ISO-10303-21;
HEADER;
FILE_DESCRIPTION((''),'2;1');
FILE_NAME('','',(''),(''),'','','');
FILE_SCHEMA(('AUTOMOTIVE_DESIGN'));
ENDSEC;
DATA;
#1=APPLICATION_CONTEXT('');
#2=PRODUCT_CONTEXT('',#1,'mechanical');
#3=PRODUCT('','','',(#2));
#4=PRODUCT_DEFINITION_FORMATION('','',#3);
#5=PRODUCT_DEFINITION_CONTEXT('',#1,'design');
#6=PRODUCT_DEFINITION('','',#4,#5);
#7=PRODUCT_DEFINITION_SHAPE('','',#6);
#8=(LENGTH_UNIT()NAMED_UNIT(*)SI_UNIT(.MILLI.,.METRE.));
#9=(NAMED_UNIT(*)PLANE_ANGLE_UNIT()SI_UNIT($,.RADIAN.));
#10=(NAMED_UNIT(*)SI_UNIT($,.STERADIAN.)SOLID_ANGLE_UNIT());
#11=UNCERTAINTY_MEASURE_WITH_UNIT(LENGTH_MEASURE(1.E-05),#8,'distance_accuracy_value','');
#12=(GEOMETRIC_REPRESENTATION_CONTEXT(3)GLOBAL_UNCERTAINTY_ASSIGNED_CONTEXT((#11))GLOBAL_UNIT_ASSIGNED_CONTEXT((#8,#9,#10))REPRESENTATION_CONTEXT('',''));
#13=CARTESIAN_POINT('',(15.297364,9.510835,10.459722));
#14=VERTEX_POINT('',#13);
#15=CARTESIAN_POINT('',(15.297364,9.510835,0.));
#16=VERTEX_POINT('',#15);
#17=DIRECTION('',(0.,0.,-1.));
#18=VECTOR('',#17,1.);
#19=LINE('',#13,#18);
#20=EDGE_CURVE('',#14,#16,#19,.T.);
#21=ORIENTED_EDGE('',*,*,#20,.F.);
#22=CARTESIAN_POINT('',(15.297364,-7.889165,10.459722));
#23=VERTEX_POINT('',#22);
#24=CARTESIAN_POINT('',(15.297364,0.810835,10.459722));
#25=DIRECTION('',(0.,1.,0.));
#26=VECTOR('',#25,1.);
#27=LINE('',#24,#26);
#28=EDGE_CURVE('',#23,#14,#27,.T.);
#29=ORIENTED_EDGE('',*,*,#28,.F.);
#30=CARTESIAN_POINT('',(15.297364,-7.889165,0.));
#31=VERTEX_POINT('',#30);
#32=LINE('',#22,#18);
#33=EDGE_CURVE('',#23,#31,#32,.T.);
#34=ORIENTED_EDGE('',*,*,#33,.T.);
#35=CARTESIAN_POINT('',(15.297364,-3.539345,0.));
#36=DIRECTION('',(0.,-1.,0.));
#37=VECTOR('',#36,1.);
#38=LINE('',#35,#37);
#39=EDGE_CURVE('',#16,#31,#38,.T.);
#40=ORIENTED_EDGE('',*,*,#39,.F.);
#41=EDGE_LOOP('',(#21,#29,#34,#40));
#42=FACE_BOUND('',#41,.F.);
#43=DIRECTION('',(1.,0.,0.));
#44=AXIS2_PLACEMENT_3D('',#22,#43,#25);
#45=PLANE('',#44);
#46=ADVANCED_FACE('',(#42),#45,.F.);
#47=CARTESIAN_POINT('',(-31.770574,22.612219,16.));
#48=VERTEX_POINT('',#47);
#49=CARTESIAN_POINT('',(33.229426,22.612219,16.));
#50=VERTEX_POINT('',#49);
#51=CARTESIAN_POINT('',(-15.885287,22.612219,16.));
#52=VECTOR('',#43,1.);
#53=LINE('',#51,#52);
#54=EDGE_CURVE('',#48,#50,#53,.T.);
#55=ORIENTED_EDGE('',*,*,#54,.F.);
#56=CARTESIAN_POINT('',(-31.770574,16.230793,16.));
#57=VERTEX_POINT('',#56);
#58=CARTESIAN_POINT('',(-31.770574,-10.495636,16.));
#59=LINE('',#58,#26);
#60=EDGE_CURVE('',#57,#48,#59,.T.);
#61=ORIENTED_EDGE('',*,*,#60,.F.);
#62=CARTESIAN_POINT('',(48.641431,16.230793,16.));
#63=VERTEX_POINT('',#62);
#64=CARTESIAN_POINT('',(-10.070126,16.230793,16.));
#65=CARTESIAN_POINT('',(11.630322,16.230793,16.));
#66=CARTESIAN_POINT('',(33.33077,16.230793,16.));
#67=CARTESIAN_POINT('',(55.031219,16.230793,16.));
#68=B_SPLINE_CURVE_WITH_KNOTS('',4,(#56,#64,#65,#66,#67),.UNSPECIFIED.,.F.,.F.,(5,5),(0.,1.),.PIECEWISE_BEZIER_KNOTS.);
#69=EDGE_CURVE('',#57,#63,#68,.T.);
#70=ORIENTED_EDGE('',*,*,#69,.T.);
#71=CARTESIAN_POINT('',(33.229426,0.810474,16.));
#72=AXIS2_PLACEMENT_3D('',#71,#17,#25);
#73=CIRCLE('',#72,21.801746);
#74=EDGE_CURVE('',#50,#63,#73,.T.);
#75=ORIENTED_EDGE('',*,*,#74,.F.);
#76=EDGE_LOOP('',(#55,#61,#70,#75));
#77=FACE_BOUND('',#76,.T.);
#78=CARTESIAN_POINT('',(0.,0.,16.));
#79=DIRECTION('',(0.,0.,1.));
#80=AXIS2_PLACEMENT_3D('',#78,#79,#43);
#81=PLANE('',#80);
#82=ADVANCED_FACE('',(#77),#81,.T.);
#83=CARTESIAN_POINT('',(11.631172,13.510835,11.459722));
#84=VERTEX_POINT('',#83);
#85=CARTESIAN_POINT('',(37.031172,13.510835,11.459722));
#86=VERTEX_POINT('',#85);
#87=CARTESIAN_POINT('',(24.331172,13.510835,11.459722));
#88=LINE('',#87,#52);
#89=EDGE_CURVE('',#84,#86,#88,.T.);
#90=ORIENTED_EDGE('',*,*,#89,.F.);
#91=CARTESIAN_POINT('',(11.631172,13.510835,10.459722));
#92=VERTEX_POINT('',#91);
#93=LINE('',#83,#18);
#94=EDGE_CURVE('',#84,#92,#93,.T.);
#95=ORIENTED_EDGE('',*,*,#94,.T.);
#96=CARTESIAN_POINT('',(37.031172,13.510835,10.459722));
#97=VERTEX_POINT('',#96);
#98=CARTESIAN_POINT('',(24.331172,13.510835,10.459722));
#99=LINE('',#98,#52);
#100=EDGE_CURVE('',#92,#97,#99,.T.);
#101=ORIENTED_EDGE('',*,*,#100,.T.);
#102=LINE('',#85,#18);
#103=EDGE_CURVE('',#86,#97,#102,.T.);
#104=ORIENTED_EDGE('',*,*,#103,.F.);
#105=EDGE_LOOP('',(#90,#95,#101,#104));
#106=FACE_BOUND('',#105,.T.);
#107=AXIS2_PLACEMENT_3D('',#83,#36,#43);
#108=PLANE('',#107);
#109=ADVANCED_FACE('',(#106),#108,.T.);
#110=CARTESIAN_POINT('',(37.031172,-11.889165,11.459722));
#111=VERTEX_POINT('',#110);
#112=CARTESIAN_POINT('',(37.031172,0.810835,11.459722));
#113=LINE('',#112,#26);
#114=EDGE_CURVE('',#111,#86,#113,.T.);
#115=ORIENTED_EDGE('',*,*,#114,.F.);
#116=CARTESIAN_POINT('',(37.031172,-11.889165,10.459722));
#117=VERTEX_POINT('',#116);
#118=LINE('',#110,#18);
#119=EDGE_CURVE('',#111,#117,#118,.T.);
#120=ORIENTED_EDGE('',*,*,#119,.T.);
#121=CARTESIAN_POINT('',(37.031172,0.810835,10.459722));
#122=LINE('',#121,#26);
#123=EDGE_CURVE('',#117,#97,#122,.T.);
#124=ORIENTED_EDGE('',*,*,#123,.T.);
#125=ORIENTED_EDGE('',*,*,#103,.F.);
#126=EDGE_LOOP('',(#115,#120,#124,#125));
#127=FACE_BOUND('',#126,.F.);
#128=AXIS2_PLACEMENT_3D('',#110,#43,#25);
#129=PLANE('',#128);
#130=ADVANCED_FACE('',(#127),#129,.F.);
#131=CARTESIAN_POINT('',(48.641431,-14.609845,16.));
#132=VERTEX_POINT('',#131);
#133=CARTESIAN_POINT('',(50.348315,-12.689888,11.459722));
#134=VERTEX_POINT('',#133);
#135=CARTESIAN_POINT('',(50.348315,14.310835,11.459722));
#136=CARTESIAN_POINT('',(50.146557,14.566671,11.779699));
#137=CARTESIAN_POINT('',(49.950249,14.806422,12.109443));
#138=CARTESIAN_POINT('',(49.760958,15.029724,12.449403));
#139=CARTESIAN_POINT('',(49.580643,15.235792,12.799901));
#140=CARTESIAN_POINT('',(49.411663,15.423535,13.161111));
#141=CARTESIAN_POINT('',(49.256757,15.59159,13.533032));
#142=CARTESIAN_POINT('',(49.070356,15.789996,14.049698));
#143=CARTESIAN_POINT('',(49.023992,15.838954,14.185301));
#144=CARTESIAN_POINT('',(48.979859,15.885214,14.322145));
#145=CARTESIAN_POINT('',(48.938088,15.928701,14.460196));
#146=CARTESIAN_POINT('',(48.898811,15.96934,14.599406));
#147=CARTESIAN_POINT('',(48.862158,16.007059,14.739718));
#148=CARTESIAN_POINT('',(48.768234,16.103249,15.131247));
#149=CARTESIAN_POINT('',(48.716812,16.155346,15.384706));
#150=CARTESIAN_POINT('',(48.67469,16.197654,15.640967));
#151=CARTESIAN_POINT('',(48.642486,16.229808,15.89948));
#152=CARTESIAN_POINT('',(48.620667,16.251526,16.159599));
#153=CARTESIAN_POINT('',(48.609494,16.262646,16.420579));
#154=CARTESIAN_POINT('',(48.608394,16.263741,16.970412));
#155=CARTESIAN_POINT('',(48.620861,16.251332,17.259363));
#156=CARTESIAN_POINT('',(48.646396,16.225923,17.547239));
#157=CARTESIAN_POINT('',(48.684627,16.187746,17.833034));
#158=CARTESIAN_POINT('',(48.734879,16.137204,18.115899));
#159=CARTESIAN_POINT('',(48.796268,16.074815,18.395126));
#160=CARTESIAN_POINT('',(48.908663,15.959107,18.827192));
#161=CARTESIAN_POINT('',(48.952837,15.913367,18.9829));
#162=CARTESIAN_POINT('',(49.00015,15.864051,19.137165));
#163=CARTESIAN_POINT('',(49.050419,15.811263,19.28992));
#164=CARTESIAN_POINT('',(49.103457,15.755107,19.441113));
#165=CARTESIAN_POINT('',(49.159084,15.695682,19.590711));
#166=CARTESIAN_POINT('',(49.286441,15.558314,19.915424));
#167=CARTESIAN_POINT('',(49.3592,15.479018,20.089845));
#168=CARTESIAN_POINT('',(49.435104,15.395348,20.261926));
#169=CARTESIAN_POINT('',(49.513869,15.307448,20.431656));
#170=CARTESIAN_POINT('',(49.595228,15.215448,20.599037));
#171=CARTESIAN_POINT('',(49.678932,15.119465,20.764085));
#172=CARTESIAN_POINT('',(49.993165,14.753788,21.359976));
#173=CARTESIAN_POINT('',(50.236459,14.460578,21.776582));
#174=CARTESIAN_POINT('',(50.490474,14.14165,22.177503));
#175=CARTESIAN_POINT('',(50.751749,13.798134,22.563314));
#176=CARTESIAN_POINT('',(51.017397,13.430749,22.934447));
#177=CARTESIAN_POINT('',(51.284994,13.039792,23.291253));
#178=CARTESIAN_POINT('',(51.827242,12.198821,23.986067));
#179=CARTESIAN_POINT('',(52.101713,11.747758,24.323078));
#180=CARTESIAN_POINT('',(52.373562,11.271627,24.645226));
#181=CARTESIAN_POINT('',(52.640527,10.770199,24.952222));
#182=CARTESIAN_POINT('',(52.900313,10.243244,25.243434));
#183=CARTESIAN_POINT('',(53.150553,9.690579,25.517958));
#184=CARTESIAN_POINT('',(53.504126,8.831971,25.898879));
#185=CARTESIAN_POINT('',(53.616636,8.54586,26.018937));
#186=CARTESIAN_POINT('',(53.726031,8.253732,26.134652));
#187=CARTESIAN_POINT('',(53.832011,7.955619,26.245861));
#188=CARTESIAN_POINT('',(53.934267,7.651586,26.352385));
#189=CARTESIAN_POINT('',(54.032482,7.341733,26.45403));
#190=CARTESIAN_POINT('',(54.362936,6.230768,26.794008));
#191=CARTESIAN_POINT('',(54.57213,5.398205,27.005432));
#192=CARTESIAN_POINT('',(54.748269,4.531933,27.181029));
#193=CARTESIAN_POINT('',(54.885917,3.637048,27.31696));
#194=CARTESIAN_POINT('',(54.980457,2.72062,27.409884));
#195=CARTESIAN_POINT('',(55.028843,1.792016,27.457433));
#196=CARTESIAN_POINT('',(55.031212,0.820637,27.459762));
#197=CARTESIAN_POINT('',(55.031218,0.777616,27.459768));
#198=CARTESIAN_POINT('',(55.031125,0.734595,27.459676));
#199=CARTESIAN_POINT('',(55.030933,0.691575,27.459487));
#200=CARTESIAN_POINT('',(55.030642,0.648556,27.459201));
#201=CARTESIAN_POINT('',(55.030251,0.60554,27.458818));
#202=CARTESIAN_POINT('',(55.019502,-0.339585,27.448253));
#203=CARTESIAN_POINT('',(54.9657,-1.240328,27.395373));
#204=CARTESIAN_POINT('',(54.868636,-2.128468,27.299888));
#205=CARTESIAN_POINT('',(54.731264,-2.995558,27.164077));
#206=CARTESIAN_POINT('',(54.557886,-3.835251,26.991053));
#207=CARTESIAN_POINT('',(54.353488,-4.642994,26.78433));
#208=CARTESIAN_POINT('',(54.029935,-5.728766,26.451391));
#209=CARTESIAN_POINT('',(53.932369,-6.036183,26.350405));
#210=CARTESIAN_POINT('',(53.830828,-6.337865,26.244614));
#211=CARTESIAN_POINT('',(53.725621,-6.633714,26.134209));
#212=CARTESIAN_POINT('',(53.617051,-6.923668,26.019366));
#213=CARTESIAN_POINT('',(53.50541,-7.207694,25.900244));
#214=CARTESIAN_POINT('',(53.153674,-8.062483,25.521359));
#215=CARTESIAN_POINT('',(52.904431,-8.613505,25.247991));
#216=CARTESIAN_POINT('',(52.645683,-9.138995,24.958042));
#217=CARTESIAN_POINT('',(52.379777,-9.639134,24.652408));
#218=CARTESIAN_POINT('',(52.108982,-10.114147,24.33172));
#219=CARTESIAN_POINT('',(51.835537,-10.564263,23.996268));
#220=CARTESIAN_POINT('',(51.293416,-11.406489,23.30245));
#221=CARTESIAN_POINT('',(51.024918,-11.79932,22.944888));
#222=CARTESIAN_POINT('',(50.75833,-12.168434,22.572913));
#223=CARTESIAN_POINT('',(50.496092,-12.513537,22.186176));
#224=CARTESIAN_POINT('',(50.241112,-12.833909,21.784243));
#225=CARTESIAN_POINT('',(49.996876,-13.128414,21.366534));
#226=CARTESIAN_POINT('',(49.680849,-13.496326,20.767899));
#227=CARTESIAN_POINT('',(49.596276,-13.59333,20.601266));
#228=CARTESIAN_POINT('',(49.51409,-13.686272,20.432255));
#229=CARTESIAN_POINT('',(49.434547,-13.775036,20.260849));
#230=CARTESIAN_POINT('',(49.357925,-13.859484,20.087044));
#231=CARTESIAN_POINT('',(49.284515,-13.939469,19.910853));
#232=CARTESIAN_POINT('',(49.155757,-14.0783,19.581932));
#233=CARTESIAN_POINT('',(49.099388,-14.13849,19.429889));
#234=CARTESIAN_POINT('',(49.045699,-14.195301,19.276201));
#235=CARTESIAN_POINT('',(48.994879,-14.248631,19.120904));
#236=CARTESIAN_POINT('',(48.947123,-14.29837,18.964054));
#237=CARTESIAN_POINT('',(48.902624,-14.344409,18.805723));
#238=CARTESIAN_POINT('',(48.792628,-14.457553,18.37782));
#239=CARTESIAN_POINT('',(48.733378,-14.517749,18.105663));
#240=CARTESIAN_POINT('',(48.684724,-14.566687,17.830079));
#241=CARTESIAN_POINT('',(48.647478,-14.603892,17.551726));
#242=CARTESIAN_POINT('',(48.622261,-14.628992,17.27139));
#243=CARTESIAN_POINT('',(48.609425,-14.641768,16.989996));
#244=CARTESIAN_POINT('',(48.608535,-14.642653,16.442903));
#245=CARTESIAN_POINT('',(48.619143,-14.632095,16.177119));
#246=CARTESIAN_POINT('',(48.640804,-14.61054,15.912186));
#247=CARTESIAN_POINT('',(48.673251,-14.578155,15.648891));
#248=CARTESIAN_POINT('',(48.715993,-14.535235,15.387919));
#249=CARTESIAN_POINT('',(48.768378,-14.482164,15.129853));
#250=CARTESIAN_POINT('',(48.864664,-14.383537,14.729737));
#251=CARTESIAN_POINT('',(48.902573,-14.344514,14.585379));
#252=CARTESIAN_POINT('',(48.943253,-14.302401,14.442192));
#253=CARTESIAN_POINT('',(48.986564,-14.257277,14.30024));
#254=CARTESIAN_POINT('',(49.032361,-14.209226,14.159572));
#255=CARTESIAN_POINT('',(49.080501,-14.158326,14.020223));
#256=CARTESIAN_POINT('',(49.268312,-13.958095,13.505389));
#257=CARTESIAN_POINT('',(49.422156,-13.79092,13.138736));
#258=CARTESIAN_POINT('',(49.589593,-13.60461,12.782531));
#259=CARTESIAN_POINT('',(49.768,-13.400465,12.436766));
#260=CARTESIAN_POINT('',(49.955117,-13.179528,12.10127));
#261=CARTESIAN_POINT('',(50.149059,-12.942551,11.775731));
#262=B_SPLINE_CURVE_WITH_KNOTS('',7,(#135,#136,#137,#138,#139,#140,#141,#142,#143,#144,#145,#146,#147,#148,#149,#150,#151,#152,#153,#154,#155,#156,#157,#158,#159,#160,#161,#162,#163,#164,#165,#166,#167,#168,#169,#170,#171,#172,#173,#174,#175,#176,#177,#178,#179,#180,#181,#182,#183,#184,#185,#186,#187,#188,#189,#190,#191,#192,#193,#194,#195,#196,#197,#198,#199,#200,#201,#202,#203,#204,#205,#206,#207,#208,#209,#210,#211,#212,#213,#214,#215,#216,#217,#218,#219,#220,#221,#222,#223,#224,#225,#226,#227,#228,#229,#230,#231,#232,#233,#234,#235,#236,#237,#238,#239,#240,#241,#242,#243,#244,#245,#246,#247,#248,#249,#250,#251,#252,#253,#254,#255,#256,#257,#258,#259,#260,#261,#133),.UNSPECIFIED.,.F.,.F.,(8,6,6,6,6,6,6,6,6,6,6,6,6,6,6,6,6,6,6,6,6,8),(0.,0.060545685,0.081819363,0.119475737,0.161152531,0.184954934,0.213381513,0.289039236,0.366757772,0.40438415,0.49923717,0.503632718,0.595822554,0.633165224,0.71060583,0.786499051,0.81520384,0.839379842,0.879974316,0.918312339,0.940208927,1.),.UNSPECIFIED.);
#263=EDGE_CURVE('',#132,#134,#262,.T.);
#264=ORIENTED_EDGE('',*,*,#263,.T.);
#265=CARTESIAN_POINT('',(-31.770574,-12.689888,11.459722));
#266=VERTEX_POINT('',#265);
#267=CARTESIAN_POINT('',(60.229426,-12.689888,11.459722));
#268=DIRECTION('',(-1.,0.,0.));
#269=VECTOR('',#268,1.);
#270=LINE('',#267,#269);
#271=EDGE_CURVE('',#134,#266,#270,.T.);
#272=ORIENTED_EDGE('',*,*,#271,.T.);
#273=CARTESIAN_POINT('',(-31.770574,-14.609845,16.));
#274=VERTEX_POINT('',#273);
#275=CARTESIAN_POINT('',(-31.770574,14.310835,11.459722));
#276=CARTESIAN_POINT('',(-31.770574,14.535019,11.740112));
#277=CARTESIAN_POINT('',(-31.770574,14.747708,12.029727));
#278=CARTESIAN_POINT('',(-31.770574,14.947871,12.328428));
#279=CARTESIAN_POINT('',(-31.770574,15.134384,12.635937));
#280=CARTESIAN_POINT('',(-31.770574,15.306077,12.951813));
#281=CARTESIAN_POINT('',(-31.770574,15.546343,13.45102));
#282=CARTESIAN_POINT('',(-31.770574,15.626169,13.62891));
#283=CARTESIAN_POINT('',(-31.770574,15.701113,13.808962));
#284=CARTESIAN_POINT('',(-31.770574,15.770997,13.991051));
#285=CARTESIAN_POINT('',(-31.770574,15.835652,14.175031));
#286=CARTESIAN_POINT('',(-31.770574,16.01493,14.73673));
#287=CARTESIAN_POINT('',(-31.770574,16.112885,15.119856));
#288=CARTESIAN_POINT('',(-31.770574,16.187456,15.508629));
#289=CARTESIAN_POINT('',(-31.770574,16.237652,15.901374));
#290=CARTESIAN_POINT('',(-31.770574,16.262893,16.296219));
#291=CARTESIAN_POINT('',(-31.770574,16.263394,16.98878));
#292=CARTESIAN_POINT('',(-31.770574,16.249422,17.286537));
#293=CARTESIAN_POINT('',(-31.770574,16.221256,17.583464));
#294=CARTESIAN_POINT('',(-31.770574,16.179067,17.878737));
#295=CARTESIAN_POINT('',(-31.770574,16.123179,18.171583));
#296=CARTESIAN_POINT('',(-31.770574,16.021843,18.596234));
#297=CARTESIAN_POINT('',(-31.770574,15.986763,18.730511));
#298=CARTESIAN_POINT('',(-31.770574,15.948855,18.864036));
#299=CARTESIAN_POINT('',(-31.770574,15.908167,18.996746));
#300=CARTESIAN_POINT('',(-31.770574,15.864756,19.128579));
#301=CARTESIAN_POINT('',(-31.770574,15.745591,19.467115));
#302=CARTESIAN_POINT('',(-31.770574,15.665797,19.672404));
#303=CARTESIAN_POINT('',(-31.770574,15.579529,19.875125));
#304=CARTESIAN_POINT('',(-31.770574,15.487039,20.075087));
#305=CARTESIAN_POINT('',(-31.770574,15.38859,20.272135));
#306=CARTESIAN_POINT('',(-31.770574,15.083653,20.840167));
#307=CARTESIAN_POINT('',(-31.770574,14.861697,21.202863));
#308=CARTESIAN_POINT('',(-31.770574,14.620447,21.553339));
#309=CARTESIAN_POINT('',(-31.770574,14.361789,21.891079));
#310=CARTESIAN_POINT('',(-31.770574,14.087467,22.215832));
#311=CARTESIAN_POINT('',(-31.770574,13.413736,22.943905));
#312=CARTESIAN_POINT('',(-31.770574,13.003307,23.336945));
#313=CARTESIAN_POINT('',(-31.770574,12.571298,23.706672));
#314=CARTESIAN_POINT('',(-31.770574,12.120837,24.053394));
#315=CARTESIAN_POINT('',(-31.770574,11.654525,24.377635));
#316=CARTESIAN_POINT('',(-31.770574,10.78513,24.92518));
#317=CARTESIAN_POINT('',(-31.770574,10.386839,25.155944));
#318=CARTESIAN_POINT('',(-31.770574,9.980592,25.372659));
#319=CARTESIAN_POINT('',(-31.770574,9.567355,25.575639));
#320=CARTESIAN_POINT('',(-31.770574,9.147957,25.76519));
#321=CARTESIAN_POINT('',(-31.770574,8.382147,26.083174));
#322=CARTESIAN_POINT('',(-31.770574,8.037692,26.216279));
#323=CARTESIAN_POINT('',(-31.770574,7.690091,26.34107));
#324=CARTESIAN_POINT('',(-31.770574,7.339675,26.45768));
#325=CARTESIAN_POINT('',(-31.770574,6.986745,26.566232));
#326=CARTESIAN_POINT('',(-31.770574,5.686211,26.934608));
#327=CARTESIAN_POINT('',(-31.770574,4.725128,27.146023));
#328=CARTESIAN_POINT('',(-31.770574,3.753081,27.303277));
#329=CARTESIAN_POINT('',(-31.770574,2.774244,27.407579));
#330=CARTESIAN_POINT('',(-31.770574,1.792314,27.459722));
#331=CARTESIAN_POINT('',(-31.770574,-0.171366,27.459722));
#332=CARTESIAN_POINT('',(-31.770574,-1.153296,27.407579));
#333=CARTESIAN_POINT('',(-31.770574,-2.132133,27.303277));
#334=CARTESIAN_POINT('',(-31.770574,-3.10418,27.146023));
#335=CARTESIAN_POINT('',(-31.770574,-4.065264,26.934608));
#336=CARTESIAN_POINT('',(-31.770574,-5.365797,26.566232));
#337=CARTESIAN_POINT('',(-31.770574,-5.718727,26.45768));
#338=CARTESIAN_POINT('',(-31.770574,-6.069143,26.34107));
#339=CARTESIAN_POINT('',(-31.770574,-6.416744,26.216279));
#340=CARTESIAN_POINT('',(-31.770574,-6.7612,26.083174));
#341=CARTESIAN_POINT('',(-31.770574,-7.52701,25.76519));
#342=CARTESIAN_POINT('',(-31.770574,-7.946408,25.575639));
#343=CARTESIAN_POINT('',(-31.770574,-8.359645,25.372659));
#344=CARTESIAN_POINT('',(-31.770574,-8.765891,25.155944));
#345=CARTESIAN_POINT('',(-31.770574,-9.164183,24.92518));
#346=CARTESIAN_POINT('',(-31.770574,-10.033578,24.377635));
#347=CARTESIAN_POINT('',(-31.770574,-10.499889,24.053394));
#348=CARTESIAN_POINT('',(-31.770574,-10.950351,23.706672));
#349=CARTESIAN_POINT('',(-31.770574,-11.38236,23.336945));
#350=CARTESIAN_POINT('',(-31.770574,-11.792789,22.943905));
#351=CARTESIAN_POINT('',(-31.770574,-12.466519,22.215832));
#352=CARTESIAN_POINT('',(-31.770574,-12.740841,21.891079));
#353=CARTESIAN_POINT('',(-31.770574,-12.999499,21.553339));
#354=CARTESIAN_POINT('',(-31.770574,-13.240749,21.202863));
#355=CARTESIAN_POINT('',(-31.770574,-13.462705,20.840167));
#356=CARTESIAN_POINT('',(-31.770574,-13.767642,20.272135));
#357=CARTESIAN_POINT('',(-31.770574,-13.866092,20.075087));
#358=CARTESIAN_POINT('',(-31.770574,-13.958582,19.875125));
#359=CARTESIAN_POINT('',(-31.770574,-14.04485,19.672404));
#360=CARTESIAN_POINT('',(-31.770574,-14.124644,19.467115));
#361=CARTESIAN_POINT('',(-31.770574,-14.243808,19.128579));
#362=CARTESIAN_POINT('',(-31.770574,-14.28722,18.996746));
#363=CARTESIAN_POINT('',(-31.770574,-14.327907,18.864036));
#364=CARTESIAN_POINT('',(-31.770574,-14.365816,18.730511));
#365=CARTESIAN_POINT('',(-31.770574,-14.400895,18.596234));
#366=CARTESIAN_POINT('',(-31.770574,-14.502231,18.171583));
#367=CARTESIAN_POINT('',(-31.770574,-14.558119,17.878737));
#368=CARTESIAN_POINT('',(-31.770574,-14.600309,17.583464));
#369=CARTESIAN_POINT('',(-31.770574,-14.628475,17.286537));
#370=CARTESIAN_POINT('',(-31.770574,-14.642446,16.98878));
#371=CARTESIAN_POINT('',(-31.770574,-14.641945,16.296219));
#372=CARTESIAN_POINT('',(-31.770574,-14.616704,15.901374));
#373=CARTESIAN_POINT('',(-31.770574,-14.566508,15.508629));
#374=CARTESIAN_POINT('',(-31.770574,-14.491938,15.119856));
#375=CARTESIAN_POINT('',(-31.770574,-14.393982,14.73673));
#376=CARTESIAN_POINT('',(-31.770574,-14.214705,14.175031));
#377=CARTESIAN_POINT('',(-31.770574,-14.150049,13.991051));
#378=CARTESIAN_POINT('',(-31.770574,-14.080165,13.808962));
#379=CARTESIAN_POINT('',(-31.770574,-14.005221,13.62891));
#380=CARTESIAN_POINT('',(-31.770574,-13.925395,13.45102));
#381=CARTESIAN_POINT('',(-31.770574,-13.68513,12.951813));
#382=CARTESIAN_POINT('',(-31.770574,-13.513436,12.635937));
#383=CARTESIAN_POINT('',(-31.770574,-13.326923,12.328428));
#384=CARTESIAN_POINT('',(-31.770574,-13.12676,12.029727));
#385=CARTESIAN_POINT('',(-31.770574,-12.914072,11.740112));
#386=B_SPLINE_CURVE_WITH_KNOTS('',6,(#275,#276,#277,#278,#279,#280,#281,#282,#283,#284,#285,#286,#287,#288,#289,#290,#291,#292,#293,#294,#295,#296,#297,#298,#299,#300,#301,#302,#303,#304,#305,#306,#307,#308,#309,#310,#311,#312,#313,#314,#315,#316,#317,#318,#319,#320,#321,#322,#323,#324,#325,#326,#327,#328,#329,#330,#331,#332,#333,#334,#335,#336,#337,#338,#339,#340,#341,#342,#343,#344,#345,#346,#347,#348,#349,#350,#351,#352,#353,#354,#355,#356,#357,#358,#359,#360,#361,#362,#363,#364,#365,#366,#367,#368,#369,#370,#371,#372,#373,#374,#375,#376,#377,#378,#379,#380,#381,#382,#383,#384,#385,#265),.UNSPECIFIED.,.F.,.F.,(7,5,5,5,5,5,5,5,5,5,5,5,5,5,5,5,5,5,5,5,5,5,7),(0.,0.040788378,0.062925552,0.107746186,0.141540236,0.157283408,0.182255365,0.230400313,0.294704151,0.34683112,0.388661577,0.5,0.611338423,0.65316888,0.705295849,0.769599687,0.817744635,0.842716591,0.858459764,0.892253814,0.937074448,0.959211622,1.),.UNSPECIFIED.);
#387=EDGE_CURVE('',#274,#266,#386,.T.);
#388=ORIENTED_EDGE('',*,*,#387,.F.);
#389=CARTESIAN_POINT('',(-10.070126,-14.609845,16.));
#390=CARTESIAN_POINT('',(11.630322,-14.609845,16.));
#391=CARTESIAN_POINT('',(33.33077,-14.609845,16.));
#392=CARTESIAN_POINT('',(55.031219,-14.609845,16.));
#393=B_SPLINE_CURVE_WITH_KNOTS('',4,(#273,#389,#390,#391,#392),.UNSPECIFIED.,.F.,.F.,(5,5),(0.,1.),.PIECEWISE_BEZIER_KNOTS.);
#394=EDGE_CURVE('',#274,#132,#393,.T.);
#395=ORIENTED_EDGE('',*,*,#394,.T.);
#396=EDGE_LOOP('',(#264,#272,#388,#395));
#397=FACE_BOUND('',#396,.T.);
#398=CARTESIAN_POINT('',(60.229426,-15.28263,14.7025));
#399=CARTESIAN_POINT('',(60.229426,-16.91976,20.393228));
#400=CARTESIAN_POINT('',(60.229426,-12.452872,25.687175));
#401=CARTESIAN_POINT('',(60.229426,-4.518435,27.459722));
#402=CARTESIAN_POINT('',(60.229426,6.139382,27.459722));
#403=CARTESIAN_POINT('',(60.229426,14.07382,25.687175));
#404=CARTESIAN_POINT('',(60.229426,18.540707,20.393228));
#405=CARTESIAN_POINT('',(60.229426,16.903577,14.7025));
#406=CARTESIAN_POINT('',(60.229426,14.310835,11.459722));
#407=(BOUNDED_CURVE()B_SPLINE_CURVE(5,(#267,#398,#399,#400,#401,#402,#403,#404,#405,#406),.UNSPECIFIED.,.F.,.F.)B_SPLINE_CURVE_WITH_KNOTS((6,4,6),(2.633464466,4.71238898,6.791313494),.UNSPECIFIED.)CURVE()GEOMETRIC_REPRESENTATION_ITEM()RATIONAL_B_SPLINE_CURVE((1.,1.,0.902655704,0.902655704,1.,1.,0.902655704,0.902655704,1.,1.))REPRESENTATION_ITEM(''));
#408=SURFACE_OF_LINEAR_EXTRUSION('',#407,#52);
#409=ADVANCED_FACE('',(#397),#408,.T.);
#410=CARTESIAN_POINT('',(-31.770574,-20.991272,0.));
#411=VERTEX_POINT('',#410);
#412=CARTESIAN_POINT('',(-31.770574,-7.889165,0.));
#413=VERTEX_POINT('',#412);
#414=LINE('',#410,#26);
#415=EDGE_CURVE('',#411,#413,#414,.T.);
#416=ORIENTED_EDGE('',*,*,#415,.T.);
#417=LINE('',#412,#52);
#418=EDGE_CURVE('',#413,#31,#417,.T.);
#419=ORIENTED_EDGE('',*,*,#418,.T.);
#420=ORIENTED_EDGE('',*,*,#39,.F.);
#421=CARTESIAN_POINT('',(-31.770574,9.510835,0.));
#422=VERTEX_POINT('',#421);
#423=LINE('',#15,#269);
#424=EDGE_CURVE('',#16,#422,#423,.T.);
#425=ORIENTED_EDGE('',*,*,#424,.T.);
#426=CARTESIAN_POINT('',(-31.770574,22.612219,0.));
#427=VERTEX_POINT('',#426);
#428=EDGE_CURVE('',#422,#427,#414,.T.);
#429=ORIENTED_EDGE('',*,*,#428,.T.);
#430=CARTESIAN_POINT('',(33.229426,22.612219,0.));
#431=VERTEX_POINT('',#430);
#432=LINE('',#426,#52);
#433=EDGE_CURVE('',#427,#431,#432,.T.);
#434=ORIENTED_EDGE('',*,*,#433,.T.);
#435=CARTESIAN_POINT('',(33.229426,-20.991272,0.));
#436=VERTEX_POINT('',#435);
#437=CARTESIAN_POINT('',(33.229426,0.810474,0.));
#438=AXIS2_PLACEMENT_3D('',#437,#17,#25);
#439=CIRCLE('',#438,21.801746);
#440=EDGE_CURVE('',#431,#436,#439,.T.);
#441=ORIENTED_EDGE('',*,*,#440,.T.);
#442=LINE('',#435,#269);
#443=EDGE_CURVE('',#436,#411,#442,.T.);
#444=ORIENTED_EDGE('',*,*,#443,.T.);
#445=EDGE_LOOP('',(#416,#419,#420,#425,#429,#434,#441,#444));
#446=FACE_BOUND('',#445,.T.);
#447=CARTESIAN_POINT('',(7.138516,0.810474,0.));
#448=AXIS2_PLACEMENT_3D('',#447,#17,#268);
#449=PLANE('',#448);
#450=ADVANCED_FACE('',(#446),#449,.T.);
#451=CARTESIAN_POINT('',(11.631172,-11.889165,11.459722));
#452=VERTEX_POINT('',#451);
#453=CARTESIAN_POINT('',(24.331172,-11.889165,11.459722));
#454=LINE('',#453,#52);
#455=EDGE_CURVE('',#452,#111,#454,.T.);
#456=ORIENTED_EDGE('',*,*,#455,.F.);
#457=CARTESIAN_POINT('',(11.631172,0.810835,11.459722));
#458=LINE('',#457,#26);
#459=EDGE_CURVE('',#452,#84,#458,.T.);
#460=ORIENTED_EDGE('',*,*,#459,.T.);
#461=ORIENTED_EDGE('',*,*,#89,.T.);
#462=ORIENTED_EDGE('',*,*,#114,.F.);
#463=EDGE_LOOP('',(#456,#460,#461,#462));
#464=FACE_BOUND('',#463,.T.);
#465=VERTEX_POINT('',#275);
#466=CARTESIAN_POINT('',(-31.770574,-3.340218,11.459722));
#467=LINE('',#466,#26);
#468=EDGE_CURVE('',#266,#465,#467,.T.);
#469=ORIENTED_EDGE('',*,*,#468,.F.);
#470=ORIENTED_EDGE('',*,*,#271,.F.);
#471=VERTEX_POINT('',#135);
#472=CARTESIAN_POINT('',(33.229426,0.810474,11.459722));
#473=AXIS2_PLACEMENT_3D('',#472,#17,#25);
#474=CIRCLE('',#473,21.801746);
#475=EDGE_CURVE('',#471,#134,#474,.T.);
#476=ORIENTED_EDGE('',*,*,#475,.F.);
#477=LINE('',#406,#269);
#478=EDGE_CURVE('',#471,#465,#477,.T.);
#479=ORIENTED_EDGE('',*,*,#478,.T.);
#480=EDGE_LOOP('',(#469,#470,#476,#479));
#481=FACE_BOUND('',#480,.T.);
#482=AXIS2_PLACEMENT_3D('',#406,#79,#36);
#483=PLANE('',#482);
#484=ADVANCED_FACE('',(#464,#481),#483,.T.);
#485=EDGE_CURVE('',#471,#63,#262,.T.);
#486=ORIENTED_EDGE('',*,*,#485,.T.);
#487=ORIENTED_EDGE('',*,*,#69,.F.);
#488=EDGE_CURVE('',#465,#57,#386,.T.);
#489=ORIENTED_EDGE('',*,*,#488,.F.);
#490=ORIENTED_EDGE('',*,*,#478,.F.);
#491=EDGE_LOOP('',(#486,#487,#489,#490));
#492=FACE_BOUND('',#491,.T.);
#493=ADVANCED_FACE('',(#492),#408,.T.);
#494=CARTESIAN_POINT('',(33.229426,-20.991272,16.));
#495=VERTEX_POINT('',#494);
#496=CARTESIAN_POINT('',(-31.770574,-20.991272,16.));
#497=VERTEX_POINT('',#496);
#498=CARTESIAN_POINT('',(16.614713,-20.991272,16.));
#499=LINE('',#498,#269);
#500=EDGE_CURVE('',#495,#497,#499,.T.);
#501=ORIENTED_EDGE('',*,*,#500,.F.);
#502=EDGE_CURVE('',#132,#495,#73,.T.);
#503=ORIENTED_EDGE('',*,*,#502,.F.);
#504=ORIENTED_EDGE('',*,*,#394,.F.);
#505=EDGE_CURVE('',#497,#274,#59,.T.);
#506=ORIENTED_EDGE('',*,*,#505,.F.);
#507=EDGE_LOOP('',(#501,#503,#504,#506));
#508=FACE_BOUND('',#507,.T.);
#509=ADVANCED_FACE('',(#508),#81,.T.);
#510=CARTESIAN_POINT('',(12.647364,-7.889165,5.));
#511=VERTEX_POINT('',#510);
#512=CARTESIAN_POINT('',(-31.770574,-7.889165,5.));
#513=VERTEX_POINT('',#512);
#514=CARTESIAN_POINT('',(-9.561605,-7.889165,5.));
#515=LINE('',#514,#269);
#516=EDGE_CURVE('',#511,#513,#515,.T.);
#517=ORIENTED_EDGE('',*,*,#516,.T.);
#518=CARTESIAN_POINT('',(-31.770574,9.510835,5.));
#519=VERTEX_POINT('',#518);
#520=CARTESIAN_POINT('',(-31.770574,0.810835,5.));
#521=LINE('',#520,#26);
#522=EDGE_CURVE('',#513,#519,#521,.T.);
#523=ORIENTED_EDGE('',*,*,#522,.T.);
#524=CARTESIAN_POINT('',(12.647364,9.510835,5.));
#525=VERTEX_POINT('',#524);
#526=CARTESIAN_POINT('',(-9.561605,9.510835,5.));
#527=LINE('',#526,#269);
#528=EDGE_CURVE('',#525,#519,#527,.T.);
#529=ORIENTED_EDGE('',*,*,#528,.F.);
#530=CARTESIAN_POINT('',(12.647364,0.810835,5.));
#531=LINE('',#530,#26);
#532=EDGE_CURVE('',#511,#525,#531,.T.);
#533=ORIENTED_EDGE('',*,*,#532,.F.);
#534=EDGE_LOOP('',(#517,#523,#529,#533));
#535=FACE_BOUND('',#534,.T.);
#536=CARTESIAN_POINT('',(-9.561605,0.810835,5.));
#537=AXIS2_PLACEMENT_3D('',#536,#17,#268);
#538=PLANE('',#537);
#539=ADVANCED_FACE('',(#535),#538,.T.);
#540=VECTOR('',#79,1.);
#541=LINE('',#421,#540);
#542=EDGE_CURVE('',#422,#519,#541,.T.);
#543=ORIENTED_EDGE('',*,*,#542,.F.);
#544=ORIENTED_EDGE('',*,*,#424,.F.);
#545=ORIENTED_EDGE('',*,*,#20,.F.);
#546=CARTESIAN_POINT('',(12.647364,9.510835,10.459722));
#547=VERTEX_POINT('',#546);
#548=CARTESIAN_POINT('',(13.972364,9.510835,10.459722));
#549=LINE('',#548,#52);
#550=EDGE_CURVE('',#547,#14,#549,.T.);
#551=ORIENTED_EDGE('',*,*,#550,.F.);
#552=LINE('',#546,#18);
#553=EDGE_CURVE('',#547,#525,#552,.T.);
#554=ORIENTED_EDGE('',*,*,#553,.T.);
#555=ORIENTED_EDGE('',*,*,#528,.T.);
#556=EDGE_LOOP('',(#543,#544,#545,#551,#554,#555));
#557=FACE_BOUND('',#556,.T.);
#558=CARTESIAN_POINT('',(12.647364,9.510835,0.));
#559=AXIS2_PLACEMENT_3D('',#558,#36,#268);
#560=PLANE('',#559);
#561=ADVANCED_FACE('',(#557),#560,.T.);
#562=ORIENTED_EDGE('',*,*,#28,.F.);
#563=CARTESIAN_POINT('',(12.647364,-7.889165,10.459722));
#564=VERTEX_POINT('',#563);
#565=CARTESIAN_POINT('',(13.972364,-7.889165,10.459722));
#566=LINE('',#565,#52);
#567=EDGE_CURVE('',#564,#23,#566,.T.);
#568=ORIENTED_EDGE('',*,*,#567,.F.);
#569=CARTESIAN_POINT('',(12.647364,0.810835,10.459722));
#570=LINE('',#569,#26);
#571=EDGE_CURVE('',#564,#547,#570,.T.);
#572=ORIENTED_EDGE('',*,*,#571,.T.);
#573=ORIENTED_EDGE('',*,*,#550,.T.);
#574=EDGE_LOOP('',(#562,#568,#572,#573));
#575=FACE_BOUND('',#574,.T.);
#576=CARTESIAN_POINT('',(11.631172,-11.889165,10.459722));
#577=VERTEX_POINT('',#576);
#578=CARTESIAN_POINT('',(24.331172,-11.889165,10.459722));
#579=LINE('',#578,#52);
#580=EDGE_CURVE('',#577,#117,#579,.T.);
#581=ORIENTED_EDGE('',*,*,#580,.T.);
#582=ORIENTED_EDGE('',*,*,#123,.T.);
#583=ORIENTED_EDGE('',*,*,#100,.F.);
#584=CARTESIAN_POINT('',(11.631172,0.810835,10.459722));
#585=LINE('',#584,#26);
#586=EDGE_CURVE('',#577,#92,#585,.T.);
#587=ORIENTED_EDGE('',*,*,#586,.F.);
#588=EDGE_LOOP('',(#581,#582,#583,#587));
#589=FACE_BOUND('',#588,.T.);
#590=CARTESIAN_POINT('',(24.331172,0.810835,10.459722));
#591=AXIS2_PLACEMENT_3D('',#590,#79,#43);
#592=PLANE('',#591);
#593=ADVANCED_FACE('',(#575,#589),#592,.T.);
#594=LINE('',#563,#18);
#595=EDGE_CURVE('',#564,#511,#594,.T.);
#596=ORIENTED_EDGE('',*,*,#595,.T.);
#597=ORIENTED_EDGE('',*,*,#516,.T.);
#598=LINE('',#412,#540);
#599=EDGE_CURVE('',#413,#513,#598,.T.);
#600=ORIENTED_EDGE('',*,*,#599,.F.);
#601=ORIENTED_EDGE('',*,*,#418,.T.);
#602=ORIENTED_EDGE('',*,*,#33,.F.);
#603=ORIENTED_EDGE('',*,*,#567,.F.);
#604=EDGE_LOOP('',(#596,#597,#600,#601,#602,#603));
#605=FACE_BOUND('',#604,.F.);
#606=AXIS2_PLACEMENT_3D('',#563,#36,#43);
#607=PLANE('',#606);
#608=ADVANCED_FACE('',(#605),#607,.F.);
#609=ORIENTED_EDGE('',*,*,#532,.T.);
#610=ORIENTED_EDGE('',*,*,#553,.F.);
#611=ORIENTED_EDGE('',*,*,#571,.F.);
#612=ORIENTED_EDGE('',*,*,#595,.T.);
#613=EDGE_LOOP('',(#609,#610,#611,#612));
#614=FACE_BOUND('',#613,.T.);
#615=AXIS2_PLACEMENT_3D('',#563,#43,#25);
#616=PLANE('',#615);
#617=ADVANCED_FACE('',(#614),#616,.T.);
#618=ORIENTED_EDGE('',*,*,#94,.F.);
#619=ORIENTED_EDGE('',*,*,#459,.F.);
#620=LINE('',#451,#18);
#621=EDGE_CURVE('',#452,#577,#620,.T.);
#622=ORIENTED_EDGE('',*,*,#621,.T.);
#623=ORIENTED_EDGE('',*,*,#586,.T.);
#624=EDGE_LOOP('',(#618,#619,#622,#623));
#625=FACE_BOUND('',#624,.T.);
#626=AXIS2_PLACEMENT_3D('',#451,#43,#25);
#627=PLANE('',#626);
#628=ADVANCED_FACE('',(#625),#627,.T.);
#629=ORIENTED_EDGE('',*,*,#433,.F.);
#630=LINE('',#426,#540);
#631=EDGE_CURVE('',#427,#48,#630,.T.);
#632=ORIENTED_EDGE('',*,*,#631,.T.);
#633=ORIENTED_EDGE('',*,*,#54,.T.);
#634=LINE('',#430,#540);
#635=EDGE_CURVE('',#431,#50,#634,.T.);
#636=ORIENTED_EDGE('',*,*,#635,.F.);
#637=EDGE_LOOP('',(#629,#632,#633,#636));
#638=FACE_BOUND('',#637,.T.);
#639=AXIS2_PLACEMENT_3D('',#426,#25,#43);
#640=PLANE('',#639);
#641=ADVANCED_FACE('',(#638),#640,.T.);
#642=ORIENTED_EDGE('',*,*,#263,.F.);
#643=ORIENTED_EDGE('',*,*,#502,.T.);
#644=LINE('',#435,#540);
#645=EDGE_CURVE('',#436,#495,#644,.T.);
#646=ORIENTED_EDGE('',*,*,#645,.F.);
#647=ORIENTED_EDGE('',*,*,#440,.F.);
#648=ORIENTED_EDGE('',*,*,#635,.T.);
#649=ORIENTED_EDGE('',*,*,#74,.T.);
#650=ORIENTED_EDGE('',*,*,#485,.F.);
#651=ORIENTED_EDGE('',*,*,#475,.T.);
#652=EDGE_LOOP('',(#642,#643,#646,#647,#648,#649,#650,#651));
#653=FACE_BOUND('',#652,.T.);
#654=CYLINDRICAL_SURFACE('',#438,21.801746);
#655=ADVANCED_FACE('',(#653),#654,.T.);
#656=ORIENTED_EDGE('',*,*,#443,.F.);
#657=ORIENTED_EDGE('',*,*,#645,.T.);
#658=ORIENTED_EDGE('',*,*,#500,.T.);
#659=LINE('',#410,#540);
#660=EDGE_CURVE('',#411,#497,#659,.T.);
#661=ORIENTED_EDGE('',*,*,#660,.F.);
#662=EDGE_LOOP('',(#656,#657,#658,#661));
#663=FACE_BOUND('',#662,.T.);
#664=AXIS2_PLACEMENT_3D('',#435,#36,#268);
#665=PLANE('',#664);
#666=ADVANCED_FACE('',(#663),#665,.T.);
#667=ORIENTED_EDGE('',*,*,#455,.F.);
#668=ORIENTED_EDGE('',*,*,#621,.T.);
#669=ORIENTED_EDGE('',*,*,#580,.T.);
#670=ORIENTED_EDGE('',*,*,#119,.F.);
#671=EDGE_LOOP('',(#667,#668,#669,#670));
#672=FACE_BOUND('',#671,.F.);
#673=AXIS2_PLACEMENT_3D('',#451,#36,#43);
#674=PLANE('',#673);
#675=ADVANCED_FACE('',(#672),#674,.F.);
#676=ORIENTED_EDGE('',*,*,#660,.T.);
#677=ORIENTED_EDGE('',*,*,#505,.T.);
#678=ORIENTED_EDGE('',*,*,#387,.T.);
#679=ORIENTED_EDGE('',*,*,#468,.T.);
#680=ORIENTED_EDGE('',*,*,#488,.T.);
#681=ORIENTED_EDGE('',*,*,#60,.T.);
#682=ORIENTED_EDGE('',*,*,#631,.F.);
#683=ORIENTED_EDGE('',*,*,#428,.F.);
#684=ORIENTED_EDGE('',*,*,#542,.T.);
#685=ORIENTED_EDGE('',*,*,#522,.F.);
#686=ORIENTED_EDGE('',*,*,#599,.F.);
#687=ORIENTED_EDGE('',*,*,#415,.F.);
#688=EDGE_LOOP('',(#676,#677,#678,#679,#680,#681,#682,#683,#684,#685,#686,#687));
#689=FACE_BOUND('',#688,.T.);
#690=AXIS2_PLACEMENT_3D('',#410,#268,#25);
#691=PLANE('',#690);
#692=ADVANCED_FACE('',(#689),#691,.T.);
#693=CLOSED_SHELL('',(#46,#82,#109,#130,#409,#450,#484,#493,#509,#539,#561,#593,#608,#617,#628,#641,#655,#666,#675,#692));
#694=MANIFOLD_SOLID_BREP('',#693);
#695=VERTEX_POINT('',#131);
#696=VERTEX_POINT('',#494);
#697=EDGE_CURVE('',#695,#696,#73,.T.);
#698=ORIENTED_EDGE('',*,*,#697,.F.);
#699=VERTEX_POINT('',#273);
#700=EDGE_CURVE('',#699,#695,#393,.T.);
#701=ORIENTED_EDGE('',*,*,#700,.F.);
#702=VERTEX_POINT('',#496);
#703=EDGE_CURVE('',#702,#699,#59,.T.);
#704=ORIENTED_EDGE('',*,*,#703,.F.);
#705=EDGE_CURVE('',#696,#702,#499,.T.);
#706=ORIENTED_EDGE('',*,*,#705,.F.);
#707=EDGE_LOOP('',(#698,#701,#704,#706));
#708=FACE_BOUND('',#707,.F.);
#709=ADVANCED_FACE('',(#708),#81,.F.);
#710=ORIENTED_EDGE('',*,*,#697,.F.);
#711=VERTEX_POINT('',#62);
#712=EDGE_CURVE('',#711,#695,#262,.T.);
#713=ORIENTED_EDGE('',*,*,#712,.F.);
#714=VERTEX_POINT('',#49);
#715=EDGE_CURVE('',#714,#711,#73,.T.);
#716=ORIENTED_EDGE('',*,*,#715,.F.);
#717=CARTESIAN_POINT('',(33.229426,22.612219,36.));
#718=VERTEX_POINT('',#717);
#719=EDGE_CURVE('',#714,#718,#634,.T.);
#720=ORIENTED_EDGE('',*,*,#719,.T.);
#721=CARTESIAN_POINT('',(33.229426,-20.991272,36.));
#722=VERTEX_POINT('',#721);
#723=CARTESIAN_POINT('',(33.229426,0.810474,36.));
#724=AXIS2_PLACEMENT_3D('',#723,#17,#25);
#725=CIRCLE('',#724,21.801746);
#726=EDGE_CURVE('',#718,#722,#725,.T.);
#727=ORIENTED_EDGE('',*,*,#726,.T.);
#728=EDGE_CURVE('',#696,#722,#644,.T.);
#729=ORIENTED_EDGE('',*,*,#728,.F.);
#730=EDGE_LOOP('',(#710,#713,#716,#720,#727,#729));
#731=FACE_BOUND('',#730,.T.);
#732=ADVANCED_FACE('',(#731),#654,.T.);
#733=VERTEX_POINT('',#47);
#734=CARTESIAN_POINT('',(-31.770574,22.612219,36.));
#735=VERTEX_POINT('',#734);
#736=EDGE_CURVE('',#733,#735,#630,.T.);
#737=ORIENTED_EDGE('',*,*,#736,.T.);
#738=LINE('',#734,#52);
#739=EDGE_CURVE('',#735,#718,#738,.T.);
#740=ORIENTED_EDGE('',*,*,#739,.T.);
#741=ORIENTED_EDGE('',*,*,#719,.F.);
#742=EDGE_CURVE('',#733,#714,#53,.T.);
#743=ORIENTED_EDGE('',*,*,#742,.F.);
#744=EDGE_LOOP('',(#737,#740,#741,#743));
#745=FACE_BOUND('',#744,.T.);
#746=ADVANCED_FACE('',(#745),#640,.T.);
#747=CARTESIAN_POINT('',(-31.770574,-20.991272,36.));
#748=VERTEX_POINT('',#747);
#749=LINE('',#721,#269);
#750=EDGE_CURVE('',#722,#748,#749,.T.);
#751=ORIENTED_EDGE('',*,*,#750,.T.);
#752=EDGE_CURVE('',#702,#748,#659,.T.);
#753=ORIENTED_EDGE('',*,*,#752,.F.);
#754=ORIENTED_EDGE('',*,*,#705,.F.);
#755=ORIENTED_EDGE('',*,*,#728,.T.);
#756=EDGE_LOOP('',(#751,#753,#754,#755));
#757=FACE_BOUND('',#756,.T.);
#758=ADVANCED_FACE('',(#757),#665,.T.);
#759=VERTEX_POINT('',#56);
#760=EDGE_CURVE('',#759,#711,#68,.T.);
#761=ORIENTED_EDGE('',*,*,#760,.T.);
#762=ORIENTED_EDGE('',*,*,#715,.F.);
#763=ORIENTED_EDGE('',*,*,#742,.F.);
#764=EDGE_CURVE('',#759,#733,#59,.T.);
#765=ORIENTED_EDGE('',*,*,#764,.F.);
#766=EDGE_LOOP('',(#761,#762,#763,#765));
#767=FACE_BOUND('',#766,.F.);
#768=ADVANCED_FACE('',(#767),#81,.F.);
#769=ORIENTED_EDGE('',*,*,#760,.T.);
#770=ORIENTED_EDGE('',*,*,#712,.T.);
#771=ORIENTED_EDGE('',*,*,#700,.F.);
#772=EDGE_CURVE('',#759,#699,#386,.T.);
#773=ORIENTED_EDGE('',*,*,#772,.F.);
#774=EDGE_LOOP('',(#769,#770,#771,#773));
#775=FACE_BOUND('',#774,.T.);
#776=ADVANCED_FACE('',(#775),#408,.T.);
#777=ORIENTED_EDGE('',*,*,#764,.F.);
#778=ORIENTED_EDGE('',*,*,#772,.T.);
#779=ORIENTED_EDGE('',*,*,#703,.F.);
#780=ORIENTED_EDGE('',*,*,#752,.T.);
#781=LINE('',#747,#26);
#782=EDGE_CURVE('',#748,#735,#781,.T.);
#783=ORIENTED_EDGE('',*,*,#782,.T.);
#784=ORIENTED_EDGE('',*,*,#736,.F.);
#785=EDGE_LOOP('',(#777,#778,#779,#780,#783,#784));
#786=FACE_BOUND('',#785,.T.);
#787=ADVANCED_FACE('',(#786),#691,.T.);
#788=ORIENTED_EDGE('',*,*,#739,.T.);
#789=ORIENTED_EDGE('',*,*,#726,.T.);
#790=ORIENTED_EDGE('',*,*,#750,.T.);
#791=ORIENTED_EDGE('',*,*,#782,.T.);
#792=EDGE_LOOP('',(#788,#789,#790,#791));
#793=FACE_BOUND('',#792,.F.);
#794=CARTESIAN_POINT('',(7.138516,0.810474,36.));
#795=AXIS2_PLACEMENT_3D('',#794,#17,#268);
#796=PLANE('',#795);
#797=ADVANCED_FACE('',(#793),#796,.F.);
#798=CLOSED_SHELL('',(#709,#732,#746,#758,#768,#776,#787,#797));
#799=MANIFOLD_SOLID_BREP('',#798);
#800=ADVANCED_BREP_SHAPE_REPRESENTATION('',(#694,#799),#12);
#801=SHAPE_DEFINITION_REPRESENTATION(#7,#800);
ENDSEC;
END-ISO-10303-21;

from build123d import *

# Parameters (mm, degrees)
ESTRUSIONE_ESTRUSIONE1_DEPTH  = 36
TAGLIO_ESTRUSIONE1_DEPTH      = 1
TAGLIO_ESTRUSIONE1_DEPTH_BACK = 92
SCHIZZO8_W                    = 25.4
SCHIZZO8_H                    = 25.4
TAGLIO_ESTRUSIONE2_DEPTH      = 1
SCHIZZO10_W                   = 2.65
SCHIZZO10_H                   = 17.4
TAGLIO_ESTRUSIONE3_DEPTH      = 25
SCHIZZO14_W                   = 44.417937998
SCHIZZO14_H                   = 17.4
TAGLIO_ESTRUSIONE5_DEPTH      = 5


with BuildPart() as part:
    # Schizzo1 → Estrusione-Estrusione1 (new body)
    with BuildSketch(Plane.XY):
        with BuildLine():
            Line((-31.770573566, 22.612219451), (33.229426434, 22.612219451))
            ThreePointArc((33.229426434, 22.612219451), (55.03117207, 0.810473815), (33.229426434, -20.99127182))
            Line((33.229426434, -20.99127182), (-31.770573566, -20.99127182))
            Line((-31.770573566, -20.99127182), (-31.770573566, 22.612219451))
        make_face()
    extrude(amount=ESTRUSIONE_ESTRUSIONE1_DEPTH)

    # Schizzo6 → Taglio-Estrusione1 (cut, two sides: drawn at the far end of the back side and taken through both)
    with BuildSketch(Plane.ZY.offset(31.770573566).offset(-TAGLIO_ESTRUSIONE1_DEPTH_BACK)):
        with BuildLine():
            Line((11.459722367, 14.310835411), (11.459722367, -12.68988778))
            add(Edge.make_bspline(
                [(11.459722367, -12.68988778), (14.702499557, -15.282629715), (20.39322805, -16.919759668), (25.687174992, -12.452872294), (27.459722367, -4.518434658), (27.459722367, 6.139382289), (25.687174992, 14.073819925), (20.39322805, 18.540707299), (14.702499557, 16.903577345), (11.459722367, 14.310835411)],
                knots=[2.633464466, 2.633464466, 2.633464466, 2.633464466, 2.633464466, 2.633464466, 4.71238898, 4.71238898, 4.71238898, 4.71238898, 6.791313494, 6.791313494, 6.791313494, 6.791313494, 6.791313494, 6.791313494], degree=5, weights=[1, 1, 0.902655704, 0.902655704, 1, 1, 0.902655704, 0.902655704, 1, 1]))
        make_face()
    extrude(amount=TAGLIO_ESTRUSIONE1_DEPTH + TAGLIO_ESTRUSIONE1_DEPTH_BACK, mode=Mode.SUBTRACT)


with BuildPart() as body_2:
    # Dividi4: the piece on the far side of the plane
    add(part.part)
    split(bisect_by=Plane.XY.offset(16), keep=Keep.BOTTOM)

    # Schizzo8 → Taglio-Estrusione2 (cut)
    with BuildSketch(Plane.XY.offset(11.459722367)):
        with Locations((24.33117207, 0.810835411)):
            Rectangle(SCHIZZO8_W, SCHIZZO8_H)
    extrude(amount=-TAGLIO_ESTRUSIONE2_DEPTH, mode=Mode.SUBTRACT)

    # Schizzo10 → Taglio-Estrusione3 (cut)
    with BuildSketch(Plane.XY.offset(10.459722367)):
        with Locations((13.972364432, 0.810835411)):
            Rectangle(SCHIZZO10_W, SCHIZZO10_H)
    extrude(amount=-TAGLIO_ESTRUSIONE3_DEPTH, mode=Mode.SUBTRACT)

    # Schizzo14 → Taglio-Estrusione5 (cut)
    with BuildSketch(Plane(origin=(0, 0, 0), x_dir=(-1, 0, 0), z_dir=(0, 0, -1))):
        with Locations((9.561604567, 0.810835411)):
            Rectangle(SCHIZZO14_W, SCHIZZO14_H)
    extrude(amount=-TAGLIO_ESTRUSIONE5_DEPTH, mode=Mode.SUBTRACT)


with BuildPart() as part_1:
    add(part.part)

    # Dividi4
    split(bisect_by=Plane.XY.offset(16), keep=Keep.TOP)


solid = Compound([body_2.part, part_1.part])
